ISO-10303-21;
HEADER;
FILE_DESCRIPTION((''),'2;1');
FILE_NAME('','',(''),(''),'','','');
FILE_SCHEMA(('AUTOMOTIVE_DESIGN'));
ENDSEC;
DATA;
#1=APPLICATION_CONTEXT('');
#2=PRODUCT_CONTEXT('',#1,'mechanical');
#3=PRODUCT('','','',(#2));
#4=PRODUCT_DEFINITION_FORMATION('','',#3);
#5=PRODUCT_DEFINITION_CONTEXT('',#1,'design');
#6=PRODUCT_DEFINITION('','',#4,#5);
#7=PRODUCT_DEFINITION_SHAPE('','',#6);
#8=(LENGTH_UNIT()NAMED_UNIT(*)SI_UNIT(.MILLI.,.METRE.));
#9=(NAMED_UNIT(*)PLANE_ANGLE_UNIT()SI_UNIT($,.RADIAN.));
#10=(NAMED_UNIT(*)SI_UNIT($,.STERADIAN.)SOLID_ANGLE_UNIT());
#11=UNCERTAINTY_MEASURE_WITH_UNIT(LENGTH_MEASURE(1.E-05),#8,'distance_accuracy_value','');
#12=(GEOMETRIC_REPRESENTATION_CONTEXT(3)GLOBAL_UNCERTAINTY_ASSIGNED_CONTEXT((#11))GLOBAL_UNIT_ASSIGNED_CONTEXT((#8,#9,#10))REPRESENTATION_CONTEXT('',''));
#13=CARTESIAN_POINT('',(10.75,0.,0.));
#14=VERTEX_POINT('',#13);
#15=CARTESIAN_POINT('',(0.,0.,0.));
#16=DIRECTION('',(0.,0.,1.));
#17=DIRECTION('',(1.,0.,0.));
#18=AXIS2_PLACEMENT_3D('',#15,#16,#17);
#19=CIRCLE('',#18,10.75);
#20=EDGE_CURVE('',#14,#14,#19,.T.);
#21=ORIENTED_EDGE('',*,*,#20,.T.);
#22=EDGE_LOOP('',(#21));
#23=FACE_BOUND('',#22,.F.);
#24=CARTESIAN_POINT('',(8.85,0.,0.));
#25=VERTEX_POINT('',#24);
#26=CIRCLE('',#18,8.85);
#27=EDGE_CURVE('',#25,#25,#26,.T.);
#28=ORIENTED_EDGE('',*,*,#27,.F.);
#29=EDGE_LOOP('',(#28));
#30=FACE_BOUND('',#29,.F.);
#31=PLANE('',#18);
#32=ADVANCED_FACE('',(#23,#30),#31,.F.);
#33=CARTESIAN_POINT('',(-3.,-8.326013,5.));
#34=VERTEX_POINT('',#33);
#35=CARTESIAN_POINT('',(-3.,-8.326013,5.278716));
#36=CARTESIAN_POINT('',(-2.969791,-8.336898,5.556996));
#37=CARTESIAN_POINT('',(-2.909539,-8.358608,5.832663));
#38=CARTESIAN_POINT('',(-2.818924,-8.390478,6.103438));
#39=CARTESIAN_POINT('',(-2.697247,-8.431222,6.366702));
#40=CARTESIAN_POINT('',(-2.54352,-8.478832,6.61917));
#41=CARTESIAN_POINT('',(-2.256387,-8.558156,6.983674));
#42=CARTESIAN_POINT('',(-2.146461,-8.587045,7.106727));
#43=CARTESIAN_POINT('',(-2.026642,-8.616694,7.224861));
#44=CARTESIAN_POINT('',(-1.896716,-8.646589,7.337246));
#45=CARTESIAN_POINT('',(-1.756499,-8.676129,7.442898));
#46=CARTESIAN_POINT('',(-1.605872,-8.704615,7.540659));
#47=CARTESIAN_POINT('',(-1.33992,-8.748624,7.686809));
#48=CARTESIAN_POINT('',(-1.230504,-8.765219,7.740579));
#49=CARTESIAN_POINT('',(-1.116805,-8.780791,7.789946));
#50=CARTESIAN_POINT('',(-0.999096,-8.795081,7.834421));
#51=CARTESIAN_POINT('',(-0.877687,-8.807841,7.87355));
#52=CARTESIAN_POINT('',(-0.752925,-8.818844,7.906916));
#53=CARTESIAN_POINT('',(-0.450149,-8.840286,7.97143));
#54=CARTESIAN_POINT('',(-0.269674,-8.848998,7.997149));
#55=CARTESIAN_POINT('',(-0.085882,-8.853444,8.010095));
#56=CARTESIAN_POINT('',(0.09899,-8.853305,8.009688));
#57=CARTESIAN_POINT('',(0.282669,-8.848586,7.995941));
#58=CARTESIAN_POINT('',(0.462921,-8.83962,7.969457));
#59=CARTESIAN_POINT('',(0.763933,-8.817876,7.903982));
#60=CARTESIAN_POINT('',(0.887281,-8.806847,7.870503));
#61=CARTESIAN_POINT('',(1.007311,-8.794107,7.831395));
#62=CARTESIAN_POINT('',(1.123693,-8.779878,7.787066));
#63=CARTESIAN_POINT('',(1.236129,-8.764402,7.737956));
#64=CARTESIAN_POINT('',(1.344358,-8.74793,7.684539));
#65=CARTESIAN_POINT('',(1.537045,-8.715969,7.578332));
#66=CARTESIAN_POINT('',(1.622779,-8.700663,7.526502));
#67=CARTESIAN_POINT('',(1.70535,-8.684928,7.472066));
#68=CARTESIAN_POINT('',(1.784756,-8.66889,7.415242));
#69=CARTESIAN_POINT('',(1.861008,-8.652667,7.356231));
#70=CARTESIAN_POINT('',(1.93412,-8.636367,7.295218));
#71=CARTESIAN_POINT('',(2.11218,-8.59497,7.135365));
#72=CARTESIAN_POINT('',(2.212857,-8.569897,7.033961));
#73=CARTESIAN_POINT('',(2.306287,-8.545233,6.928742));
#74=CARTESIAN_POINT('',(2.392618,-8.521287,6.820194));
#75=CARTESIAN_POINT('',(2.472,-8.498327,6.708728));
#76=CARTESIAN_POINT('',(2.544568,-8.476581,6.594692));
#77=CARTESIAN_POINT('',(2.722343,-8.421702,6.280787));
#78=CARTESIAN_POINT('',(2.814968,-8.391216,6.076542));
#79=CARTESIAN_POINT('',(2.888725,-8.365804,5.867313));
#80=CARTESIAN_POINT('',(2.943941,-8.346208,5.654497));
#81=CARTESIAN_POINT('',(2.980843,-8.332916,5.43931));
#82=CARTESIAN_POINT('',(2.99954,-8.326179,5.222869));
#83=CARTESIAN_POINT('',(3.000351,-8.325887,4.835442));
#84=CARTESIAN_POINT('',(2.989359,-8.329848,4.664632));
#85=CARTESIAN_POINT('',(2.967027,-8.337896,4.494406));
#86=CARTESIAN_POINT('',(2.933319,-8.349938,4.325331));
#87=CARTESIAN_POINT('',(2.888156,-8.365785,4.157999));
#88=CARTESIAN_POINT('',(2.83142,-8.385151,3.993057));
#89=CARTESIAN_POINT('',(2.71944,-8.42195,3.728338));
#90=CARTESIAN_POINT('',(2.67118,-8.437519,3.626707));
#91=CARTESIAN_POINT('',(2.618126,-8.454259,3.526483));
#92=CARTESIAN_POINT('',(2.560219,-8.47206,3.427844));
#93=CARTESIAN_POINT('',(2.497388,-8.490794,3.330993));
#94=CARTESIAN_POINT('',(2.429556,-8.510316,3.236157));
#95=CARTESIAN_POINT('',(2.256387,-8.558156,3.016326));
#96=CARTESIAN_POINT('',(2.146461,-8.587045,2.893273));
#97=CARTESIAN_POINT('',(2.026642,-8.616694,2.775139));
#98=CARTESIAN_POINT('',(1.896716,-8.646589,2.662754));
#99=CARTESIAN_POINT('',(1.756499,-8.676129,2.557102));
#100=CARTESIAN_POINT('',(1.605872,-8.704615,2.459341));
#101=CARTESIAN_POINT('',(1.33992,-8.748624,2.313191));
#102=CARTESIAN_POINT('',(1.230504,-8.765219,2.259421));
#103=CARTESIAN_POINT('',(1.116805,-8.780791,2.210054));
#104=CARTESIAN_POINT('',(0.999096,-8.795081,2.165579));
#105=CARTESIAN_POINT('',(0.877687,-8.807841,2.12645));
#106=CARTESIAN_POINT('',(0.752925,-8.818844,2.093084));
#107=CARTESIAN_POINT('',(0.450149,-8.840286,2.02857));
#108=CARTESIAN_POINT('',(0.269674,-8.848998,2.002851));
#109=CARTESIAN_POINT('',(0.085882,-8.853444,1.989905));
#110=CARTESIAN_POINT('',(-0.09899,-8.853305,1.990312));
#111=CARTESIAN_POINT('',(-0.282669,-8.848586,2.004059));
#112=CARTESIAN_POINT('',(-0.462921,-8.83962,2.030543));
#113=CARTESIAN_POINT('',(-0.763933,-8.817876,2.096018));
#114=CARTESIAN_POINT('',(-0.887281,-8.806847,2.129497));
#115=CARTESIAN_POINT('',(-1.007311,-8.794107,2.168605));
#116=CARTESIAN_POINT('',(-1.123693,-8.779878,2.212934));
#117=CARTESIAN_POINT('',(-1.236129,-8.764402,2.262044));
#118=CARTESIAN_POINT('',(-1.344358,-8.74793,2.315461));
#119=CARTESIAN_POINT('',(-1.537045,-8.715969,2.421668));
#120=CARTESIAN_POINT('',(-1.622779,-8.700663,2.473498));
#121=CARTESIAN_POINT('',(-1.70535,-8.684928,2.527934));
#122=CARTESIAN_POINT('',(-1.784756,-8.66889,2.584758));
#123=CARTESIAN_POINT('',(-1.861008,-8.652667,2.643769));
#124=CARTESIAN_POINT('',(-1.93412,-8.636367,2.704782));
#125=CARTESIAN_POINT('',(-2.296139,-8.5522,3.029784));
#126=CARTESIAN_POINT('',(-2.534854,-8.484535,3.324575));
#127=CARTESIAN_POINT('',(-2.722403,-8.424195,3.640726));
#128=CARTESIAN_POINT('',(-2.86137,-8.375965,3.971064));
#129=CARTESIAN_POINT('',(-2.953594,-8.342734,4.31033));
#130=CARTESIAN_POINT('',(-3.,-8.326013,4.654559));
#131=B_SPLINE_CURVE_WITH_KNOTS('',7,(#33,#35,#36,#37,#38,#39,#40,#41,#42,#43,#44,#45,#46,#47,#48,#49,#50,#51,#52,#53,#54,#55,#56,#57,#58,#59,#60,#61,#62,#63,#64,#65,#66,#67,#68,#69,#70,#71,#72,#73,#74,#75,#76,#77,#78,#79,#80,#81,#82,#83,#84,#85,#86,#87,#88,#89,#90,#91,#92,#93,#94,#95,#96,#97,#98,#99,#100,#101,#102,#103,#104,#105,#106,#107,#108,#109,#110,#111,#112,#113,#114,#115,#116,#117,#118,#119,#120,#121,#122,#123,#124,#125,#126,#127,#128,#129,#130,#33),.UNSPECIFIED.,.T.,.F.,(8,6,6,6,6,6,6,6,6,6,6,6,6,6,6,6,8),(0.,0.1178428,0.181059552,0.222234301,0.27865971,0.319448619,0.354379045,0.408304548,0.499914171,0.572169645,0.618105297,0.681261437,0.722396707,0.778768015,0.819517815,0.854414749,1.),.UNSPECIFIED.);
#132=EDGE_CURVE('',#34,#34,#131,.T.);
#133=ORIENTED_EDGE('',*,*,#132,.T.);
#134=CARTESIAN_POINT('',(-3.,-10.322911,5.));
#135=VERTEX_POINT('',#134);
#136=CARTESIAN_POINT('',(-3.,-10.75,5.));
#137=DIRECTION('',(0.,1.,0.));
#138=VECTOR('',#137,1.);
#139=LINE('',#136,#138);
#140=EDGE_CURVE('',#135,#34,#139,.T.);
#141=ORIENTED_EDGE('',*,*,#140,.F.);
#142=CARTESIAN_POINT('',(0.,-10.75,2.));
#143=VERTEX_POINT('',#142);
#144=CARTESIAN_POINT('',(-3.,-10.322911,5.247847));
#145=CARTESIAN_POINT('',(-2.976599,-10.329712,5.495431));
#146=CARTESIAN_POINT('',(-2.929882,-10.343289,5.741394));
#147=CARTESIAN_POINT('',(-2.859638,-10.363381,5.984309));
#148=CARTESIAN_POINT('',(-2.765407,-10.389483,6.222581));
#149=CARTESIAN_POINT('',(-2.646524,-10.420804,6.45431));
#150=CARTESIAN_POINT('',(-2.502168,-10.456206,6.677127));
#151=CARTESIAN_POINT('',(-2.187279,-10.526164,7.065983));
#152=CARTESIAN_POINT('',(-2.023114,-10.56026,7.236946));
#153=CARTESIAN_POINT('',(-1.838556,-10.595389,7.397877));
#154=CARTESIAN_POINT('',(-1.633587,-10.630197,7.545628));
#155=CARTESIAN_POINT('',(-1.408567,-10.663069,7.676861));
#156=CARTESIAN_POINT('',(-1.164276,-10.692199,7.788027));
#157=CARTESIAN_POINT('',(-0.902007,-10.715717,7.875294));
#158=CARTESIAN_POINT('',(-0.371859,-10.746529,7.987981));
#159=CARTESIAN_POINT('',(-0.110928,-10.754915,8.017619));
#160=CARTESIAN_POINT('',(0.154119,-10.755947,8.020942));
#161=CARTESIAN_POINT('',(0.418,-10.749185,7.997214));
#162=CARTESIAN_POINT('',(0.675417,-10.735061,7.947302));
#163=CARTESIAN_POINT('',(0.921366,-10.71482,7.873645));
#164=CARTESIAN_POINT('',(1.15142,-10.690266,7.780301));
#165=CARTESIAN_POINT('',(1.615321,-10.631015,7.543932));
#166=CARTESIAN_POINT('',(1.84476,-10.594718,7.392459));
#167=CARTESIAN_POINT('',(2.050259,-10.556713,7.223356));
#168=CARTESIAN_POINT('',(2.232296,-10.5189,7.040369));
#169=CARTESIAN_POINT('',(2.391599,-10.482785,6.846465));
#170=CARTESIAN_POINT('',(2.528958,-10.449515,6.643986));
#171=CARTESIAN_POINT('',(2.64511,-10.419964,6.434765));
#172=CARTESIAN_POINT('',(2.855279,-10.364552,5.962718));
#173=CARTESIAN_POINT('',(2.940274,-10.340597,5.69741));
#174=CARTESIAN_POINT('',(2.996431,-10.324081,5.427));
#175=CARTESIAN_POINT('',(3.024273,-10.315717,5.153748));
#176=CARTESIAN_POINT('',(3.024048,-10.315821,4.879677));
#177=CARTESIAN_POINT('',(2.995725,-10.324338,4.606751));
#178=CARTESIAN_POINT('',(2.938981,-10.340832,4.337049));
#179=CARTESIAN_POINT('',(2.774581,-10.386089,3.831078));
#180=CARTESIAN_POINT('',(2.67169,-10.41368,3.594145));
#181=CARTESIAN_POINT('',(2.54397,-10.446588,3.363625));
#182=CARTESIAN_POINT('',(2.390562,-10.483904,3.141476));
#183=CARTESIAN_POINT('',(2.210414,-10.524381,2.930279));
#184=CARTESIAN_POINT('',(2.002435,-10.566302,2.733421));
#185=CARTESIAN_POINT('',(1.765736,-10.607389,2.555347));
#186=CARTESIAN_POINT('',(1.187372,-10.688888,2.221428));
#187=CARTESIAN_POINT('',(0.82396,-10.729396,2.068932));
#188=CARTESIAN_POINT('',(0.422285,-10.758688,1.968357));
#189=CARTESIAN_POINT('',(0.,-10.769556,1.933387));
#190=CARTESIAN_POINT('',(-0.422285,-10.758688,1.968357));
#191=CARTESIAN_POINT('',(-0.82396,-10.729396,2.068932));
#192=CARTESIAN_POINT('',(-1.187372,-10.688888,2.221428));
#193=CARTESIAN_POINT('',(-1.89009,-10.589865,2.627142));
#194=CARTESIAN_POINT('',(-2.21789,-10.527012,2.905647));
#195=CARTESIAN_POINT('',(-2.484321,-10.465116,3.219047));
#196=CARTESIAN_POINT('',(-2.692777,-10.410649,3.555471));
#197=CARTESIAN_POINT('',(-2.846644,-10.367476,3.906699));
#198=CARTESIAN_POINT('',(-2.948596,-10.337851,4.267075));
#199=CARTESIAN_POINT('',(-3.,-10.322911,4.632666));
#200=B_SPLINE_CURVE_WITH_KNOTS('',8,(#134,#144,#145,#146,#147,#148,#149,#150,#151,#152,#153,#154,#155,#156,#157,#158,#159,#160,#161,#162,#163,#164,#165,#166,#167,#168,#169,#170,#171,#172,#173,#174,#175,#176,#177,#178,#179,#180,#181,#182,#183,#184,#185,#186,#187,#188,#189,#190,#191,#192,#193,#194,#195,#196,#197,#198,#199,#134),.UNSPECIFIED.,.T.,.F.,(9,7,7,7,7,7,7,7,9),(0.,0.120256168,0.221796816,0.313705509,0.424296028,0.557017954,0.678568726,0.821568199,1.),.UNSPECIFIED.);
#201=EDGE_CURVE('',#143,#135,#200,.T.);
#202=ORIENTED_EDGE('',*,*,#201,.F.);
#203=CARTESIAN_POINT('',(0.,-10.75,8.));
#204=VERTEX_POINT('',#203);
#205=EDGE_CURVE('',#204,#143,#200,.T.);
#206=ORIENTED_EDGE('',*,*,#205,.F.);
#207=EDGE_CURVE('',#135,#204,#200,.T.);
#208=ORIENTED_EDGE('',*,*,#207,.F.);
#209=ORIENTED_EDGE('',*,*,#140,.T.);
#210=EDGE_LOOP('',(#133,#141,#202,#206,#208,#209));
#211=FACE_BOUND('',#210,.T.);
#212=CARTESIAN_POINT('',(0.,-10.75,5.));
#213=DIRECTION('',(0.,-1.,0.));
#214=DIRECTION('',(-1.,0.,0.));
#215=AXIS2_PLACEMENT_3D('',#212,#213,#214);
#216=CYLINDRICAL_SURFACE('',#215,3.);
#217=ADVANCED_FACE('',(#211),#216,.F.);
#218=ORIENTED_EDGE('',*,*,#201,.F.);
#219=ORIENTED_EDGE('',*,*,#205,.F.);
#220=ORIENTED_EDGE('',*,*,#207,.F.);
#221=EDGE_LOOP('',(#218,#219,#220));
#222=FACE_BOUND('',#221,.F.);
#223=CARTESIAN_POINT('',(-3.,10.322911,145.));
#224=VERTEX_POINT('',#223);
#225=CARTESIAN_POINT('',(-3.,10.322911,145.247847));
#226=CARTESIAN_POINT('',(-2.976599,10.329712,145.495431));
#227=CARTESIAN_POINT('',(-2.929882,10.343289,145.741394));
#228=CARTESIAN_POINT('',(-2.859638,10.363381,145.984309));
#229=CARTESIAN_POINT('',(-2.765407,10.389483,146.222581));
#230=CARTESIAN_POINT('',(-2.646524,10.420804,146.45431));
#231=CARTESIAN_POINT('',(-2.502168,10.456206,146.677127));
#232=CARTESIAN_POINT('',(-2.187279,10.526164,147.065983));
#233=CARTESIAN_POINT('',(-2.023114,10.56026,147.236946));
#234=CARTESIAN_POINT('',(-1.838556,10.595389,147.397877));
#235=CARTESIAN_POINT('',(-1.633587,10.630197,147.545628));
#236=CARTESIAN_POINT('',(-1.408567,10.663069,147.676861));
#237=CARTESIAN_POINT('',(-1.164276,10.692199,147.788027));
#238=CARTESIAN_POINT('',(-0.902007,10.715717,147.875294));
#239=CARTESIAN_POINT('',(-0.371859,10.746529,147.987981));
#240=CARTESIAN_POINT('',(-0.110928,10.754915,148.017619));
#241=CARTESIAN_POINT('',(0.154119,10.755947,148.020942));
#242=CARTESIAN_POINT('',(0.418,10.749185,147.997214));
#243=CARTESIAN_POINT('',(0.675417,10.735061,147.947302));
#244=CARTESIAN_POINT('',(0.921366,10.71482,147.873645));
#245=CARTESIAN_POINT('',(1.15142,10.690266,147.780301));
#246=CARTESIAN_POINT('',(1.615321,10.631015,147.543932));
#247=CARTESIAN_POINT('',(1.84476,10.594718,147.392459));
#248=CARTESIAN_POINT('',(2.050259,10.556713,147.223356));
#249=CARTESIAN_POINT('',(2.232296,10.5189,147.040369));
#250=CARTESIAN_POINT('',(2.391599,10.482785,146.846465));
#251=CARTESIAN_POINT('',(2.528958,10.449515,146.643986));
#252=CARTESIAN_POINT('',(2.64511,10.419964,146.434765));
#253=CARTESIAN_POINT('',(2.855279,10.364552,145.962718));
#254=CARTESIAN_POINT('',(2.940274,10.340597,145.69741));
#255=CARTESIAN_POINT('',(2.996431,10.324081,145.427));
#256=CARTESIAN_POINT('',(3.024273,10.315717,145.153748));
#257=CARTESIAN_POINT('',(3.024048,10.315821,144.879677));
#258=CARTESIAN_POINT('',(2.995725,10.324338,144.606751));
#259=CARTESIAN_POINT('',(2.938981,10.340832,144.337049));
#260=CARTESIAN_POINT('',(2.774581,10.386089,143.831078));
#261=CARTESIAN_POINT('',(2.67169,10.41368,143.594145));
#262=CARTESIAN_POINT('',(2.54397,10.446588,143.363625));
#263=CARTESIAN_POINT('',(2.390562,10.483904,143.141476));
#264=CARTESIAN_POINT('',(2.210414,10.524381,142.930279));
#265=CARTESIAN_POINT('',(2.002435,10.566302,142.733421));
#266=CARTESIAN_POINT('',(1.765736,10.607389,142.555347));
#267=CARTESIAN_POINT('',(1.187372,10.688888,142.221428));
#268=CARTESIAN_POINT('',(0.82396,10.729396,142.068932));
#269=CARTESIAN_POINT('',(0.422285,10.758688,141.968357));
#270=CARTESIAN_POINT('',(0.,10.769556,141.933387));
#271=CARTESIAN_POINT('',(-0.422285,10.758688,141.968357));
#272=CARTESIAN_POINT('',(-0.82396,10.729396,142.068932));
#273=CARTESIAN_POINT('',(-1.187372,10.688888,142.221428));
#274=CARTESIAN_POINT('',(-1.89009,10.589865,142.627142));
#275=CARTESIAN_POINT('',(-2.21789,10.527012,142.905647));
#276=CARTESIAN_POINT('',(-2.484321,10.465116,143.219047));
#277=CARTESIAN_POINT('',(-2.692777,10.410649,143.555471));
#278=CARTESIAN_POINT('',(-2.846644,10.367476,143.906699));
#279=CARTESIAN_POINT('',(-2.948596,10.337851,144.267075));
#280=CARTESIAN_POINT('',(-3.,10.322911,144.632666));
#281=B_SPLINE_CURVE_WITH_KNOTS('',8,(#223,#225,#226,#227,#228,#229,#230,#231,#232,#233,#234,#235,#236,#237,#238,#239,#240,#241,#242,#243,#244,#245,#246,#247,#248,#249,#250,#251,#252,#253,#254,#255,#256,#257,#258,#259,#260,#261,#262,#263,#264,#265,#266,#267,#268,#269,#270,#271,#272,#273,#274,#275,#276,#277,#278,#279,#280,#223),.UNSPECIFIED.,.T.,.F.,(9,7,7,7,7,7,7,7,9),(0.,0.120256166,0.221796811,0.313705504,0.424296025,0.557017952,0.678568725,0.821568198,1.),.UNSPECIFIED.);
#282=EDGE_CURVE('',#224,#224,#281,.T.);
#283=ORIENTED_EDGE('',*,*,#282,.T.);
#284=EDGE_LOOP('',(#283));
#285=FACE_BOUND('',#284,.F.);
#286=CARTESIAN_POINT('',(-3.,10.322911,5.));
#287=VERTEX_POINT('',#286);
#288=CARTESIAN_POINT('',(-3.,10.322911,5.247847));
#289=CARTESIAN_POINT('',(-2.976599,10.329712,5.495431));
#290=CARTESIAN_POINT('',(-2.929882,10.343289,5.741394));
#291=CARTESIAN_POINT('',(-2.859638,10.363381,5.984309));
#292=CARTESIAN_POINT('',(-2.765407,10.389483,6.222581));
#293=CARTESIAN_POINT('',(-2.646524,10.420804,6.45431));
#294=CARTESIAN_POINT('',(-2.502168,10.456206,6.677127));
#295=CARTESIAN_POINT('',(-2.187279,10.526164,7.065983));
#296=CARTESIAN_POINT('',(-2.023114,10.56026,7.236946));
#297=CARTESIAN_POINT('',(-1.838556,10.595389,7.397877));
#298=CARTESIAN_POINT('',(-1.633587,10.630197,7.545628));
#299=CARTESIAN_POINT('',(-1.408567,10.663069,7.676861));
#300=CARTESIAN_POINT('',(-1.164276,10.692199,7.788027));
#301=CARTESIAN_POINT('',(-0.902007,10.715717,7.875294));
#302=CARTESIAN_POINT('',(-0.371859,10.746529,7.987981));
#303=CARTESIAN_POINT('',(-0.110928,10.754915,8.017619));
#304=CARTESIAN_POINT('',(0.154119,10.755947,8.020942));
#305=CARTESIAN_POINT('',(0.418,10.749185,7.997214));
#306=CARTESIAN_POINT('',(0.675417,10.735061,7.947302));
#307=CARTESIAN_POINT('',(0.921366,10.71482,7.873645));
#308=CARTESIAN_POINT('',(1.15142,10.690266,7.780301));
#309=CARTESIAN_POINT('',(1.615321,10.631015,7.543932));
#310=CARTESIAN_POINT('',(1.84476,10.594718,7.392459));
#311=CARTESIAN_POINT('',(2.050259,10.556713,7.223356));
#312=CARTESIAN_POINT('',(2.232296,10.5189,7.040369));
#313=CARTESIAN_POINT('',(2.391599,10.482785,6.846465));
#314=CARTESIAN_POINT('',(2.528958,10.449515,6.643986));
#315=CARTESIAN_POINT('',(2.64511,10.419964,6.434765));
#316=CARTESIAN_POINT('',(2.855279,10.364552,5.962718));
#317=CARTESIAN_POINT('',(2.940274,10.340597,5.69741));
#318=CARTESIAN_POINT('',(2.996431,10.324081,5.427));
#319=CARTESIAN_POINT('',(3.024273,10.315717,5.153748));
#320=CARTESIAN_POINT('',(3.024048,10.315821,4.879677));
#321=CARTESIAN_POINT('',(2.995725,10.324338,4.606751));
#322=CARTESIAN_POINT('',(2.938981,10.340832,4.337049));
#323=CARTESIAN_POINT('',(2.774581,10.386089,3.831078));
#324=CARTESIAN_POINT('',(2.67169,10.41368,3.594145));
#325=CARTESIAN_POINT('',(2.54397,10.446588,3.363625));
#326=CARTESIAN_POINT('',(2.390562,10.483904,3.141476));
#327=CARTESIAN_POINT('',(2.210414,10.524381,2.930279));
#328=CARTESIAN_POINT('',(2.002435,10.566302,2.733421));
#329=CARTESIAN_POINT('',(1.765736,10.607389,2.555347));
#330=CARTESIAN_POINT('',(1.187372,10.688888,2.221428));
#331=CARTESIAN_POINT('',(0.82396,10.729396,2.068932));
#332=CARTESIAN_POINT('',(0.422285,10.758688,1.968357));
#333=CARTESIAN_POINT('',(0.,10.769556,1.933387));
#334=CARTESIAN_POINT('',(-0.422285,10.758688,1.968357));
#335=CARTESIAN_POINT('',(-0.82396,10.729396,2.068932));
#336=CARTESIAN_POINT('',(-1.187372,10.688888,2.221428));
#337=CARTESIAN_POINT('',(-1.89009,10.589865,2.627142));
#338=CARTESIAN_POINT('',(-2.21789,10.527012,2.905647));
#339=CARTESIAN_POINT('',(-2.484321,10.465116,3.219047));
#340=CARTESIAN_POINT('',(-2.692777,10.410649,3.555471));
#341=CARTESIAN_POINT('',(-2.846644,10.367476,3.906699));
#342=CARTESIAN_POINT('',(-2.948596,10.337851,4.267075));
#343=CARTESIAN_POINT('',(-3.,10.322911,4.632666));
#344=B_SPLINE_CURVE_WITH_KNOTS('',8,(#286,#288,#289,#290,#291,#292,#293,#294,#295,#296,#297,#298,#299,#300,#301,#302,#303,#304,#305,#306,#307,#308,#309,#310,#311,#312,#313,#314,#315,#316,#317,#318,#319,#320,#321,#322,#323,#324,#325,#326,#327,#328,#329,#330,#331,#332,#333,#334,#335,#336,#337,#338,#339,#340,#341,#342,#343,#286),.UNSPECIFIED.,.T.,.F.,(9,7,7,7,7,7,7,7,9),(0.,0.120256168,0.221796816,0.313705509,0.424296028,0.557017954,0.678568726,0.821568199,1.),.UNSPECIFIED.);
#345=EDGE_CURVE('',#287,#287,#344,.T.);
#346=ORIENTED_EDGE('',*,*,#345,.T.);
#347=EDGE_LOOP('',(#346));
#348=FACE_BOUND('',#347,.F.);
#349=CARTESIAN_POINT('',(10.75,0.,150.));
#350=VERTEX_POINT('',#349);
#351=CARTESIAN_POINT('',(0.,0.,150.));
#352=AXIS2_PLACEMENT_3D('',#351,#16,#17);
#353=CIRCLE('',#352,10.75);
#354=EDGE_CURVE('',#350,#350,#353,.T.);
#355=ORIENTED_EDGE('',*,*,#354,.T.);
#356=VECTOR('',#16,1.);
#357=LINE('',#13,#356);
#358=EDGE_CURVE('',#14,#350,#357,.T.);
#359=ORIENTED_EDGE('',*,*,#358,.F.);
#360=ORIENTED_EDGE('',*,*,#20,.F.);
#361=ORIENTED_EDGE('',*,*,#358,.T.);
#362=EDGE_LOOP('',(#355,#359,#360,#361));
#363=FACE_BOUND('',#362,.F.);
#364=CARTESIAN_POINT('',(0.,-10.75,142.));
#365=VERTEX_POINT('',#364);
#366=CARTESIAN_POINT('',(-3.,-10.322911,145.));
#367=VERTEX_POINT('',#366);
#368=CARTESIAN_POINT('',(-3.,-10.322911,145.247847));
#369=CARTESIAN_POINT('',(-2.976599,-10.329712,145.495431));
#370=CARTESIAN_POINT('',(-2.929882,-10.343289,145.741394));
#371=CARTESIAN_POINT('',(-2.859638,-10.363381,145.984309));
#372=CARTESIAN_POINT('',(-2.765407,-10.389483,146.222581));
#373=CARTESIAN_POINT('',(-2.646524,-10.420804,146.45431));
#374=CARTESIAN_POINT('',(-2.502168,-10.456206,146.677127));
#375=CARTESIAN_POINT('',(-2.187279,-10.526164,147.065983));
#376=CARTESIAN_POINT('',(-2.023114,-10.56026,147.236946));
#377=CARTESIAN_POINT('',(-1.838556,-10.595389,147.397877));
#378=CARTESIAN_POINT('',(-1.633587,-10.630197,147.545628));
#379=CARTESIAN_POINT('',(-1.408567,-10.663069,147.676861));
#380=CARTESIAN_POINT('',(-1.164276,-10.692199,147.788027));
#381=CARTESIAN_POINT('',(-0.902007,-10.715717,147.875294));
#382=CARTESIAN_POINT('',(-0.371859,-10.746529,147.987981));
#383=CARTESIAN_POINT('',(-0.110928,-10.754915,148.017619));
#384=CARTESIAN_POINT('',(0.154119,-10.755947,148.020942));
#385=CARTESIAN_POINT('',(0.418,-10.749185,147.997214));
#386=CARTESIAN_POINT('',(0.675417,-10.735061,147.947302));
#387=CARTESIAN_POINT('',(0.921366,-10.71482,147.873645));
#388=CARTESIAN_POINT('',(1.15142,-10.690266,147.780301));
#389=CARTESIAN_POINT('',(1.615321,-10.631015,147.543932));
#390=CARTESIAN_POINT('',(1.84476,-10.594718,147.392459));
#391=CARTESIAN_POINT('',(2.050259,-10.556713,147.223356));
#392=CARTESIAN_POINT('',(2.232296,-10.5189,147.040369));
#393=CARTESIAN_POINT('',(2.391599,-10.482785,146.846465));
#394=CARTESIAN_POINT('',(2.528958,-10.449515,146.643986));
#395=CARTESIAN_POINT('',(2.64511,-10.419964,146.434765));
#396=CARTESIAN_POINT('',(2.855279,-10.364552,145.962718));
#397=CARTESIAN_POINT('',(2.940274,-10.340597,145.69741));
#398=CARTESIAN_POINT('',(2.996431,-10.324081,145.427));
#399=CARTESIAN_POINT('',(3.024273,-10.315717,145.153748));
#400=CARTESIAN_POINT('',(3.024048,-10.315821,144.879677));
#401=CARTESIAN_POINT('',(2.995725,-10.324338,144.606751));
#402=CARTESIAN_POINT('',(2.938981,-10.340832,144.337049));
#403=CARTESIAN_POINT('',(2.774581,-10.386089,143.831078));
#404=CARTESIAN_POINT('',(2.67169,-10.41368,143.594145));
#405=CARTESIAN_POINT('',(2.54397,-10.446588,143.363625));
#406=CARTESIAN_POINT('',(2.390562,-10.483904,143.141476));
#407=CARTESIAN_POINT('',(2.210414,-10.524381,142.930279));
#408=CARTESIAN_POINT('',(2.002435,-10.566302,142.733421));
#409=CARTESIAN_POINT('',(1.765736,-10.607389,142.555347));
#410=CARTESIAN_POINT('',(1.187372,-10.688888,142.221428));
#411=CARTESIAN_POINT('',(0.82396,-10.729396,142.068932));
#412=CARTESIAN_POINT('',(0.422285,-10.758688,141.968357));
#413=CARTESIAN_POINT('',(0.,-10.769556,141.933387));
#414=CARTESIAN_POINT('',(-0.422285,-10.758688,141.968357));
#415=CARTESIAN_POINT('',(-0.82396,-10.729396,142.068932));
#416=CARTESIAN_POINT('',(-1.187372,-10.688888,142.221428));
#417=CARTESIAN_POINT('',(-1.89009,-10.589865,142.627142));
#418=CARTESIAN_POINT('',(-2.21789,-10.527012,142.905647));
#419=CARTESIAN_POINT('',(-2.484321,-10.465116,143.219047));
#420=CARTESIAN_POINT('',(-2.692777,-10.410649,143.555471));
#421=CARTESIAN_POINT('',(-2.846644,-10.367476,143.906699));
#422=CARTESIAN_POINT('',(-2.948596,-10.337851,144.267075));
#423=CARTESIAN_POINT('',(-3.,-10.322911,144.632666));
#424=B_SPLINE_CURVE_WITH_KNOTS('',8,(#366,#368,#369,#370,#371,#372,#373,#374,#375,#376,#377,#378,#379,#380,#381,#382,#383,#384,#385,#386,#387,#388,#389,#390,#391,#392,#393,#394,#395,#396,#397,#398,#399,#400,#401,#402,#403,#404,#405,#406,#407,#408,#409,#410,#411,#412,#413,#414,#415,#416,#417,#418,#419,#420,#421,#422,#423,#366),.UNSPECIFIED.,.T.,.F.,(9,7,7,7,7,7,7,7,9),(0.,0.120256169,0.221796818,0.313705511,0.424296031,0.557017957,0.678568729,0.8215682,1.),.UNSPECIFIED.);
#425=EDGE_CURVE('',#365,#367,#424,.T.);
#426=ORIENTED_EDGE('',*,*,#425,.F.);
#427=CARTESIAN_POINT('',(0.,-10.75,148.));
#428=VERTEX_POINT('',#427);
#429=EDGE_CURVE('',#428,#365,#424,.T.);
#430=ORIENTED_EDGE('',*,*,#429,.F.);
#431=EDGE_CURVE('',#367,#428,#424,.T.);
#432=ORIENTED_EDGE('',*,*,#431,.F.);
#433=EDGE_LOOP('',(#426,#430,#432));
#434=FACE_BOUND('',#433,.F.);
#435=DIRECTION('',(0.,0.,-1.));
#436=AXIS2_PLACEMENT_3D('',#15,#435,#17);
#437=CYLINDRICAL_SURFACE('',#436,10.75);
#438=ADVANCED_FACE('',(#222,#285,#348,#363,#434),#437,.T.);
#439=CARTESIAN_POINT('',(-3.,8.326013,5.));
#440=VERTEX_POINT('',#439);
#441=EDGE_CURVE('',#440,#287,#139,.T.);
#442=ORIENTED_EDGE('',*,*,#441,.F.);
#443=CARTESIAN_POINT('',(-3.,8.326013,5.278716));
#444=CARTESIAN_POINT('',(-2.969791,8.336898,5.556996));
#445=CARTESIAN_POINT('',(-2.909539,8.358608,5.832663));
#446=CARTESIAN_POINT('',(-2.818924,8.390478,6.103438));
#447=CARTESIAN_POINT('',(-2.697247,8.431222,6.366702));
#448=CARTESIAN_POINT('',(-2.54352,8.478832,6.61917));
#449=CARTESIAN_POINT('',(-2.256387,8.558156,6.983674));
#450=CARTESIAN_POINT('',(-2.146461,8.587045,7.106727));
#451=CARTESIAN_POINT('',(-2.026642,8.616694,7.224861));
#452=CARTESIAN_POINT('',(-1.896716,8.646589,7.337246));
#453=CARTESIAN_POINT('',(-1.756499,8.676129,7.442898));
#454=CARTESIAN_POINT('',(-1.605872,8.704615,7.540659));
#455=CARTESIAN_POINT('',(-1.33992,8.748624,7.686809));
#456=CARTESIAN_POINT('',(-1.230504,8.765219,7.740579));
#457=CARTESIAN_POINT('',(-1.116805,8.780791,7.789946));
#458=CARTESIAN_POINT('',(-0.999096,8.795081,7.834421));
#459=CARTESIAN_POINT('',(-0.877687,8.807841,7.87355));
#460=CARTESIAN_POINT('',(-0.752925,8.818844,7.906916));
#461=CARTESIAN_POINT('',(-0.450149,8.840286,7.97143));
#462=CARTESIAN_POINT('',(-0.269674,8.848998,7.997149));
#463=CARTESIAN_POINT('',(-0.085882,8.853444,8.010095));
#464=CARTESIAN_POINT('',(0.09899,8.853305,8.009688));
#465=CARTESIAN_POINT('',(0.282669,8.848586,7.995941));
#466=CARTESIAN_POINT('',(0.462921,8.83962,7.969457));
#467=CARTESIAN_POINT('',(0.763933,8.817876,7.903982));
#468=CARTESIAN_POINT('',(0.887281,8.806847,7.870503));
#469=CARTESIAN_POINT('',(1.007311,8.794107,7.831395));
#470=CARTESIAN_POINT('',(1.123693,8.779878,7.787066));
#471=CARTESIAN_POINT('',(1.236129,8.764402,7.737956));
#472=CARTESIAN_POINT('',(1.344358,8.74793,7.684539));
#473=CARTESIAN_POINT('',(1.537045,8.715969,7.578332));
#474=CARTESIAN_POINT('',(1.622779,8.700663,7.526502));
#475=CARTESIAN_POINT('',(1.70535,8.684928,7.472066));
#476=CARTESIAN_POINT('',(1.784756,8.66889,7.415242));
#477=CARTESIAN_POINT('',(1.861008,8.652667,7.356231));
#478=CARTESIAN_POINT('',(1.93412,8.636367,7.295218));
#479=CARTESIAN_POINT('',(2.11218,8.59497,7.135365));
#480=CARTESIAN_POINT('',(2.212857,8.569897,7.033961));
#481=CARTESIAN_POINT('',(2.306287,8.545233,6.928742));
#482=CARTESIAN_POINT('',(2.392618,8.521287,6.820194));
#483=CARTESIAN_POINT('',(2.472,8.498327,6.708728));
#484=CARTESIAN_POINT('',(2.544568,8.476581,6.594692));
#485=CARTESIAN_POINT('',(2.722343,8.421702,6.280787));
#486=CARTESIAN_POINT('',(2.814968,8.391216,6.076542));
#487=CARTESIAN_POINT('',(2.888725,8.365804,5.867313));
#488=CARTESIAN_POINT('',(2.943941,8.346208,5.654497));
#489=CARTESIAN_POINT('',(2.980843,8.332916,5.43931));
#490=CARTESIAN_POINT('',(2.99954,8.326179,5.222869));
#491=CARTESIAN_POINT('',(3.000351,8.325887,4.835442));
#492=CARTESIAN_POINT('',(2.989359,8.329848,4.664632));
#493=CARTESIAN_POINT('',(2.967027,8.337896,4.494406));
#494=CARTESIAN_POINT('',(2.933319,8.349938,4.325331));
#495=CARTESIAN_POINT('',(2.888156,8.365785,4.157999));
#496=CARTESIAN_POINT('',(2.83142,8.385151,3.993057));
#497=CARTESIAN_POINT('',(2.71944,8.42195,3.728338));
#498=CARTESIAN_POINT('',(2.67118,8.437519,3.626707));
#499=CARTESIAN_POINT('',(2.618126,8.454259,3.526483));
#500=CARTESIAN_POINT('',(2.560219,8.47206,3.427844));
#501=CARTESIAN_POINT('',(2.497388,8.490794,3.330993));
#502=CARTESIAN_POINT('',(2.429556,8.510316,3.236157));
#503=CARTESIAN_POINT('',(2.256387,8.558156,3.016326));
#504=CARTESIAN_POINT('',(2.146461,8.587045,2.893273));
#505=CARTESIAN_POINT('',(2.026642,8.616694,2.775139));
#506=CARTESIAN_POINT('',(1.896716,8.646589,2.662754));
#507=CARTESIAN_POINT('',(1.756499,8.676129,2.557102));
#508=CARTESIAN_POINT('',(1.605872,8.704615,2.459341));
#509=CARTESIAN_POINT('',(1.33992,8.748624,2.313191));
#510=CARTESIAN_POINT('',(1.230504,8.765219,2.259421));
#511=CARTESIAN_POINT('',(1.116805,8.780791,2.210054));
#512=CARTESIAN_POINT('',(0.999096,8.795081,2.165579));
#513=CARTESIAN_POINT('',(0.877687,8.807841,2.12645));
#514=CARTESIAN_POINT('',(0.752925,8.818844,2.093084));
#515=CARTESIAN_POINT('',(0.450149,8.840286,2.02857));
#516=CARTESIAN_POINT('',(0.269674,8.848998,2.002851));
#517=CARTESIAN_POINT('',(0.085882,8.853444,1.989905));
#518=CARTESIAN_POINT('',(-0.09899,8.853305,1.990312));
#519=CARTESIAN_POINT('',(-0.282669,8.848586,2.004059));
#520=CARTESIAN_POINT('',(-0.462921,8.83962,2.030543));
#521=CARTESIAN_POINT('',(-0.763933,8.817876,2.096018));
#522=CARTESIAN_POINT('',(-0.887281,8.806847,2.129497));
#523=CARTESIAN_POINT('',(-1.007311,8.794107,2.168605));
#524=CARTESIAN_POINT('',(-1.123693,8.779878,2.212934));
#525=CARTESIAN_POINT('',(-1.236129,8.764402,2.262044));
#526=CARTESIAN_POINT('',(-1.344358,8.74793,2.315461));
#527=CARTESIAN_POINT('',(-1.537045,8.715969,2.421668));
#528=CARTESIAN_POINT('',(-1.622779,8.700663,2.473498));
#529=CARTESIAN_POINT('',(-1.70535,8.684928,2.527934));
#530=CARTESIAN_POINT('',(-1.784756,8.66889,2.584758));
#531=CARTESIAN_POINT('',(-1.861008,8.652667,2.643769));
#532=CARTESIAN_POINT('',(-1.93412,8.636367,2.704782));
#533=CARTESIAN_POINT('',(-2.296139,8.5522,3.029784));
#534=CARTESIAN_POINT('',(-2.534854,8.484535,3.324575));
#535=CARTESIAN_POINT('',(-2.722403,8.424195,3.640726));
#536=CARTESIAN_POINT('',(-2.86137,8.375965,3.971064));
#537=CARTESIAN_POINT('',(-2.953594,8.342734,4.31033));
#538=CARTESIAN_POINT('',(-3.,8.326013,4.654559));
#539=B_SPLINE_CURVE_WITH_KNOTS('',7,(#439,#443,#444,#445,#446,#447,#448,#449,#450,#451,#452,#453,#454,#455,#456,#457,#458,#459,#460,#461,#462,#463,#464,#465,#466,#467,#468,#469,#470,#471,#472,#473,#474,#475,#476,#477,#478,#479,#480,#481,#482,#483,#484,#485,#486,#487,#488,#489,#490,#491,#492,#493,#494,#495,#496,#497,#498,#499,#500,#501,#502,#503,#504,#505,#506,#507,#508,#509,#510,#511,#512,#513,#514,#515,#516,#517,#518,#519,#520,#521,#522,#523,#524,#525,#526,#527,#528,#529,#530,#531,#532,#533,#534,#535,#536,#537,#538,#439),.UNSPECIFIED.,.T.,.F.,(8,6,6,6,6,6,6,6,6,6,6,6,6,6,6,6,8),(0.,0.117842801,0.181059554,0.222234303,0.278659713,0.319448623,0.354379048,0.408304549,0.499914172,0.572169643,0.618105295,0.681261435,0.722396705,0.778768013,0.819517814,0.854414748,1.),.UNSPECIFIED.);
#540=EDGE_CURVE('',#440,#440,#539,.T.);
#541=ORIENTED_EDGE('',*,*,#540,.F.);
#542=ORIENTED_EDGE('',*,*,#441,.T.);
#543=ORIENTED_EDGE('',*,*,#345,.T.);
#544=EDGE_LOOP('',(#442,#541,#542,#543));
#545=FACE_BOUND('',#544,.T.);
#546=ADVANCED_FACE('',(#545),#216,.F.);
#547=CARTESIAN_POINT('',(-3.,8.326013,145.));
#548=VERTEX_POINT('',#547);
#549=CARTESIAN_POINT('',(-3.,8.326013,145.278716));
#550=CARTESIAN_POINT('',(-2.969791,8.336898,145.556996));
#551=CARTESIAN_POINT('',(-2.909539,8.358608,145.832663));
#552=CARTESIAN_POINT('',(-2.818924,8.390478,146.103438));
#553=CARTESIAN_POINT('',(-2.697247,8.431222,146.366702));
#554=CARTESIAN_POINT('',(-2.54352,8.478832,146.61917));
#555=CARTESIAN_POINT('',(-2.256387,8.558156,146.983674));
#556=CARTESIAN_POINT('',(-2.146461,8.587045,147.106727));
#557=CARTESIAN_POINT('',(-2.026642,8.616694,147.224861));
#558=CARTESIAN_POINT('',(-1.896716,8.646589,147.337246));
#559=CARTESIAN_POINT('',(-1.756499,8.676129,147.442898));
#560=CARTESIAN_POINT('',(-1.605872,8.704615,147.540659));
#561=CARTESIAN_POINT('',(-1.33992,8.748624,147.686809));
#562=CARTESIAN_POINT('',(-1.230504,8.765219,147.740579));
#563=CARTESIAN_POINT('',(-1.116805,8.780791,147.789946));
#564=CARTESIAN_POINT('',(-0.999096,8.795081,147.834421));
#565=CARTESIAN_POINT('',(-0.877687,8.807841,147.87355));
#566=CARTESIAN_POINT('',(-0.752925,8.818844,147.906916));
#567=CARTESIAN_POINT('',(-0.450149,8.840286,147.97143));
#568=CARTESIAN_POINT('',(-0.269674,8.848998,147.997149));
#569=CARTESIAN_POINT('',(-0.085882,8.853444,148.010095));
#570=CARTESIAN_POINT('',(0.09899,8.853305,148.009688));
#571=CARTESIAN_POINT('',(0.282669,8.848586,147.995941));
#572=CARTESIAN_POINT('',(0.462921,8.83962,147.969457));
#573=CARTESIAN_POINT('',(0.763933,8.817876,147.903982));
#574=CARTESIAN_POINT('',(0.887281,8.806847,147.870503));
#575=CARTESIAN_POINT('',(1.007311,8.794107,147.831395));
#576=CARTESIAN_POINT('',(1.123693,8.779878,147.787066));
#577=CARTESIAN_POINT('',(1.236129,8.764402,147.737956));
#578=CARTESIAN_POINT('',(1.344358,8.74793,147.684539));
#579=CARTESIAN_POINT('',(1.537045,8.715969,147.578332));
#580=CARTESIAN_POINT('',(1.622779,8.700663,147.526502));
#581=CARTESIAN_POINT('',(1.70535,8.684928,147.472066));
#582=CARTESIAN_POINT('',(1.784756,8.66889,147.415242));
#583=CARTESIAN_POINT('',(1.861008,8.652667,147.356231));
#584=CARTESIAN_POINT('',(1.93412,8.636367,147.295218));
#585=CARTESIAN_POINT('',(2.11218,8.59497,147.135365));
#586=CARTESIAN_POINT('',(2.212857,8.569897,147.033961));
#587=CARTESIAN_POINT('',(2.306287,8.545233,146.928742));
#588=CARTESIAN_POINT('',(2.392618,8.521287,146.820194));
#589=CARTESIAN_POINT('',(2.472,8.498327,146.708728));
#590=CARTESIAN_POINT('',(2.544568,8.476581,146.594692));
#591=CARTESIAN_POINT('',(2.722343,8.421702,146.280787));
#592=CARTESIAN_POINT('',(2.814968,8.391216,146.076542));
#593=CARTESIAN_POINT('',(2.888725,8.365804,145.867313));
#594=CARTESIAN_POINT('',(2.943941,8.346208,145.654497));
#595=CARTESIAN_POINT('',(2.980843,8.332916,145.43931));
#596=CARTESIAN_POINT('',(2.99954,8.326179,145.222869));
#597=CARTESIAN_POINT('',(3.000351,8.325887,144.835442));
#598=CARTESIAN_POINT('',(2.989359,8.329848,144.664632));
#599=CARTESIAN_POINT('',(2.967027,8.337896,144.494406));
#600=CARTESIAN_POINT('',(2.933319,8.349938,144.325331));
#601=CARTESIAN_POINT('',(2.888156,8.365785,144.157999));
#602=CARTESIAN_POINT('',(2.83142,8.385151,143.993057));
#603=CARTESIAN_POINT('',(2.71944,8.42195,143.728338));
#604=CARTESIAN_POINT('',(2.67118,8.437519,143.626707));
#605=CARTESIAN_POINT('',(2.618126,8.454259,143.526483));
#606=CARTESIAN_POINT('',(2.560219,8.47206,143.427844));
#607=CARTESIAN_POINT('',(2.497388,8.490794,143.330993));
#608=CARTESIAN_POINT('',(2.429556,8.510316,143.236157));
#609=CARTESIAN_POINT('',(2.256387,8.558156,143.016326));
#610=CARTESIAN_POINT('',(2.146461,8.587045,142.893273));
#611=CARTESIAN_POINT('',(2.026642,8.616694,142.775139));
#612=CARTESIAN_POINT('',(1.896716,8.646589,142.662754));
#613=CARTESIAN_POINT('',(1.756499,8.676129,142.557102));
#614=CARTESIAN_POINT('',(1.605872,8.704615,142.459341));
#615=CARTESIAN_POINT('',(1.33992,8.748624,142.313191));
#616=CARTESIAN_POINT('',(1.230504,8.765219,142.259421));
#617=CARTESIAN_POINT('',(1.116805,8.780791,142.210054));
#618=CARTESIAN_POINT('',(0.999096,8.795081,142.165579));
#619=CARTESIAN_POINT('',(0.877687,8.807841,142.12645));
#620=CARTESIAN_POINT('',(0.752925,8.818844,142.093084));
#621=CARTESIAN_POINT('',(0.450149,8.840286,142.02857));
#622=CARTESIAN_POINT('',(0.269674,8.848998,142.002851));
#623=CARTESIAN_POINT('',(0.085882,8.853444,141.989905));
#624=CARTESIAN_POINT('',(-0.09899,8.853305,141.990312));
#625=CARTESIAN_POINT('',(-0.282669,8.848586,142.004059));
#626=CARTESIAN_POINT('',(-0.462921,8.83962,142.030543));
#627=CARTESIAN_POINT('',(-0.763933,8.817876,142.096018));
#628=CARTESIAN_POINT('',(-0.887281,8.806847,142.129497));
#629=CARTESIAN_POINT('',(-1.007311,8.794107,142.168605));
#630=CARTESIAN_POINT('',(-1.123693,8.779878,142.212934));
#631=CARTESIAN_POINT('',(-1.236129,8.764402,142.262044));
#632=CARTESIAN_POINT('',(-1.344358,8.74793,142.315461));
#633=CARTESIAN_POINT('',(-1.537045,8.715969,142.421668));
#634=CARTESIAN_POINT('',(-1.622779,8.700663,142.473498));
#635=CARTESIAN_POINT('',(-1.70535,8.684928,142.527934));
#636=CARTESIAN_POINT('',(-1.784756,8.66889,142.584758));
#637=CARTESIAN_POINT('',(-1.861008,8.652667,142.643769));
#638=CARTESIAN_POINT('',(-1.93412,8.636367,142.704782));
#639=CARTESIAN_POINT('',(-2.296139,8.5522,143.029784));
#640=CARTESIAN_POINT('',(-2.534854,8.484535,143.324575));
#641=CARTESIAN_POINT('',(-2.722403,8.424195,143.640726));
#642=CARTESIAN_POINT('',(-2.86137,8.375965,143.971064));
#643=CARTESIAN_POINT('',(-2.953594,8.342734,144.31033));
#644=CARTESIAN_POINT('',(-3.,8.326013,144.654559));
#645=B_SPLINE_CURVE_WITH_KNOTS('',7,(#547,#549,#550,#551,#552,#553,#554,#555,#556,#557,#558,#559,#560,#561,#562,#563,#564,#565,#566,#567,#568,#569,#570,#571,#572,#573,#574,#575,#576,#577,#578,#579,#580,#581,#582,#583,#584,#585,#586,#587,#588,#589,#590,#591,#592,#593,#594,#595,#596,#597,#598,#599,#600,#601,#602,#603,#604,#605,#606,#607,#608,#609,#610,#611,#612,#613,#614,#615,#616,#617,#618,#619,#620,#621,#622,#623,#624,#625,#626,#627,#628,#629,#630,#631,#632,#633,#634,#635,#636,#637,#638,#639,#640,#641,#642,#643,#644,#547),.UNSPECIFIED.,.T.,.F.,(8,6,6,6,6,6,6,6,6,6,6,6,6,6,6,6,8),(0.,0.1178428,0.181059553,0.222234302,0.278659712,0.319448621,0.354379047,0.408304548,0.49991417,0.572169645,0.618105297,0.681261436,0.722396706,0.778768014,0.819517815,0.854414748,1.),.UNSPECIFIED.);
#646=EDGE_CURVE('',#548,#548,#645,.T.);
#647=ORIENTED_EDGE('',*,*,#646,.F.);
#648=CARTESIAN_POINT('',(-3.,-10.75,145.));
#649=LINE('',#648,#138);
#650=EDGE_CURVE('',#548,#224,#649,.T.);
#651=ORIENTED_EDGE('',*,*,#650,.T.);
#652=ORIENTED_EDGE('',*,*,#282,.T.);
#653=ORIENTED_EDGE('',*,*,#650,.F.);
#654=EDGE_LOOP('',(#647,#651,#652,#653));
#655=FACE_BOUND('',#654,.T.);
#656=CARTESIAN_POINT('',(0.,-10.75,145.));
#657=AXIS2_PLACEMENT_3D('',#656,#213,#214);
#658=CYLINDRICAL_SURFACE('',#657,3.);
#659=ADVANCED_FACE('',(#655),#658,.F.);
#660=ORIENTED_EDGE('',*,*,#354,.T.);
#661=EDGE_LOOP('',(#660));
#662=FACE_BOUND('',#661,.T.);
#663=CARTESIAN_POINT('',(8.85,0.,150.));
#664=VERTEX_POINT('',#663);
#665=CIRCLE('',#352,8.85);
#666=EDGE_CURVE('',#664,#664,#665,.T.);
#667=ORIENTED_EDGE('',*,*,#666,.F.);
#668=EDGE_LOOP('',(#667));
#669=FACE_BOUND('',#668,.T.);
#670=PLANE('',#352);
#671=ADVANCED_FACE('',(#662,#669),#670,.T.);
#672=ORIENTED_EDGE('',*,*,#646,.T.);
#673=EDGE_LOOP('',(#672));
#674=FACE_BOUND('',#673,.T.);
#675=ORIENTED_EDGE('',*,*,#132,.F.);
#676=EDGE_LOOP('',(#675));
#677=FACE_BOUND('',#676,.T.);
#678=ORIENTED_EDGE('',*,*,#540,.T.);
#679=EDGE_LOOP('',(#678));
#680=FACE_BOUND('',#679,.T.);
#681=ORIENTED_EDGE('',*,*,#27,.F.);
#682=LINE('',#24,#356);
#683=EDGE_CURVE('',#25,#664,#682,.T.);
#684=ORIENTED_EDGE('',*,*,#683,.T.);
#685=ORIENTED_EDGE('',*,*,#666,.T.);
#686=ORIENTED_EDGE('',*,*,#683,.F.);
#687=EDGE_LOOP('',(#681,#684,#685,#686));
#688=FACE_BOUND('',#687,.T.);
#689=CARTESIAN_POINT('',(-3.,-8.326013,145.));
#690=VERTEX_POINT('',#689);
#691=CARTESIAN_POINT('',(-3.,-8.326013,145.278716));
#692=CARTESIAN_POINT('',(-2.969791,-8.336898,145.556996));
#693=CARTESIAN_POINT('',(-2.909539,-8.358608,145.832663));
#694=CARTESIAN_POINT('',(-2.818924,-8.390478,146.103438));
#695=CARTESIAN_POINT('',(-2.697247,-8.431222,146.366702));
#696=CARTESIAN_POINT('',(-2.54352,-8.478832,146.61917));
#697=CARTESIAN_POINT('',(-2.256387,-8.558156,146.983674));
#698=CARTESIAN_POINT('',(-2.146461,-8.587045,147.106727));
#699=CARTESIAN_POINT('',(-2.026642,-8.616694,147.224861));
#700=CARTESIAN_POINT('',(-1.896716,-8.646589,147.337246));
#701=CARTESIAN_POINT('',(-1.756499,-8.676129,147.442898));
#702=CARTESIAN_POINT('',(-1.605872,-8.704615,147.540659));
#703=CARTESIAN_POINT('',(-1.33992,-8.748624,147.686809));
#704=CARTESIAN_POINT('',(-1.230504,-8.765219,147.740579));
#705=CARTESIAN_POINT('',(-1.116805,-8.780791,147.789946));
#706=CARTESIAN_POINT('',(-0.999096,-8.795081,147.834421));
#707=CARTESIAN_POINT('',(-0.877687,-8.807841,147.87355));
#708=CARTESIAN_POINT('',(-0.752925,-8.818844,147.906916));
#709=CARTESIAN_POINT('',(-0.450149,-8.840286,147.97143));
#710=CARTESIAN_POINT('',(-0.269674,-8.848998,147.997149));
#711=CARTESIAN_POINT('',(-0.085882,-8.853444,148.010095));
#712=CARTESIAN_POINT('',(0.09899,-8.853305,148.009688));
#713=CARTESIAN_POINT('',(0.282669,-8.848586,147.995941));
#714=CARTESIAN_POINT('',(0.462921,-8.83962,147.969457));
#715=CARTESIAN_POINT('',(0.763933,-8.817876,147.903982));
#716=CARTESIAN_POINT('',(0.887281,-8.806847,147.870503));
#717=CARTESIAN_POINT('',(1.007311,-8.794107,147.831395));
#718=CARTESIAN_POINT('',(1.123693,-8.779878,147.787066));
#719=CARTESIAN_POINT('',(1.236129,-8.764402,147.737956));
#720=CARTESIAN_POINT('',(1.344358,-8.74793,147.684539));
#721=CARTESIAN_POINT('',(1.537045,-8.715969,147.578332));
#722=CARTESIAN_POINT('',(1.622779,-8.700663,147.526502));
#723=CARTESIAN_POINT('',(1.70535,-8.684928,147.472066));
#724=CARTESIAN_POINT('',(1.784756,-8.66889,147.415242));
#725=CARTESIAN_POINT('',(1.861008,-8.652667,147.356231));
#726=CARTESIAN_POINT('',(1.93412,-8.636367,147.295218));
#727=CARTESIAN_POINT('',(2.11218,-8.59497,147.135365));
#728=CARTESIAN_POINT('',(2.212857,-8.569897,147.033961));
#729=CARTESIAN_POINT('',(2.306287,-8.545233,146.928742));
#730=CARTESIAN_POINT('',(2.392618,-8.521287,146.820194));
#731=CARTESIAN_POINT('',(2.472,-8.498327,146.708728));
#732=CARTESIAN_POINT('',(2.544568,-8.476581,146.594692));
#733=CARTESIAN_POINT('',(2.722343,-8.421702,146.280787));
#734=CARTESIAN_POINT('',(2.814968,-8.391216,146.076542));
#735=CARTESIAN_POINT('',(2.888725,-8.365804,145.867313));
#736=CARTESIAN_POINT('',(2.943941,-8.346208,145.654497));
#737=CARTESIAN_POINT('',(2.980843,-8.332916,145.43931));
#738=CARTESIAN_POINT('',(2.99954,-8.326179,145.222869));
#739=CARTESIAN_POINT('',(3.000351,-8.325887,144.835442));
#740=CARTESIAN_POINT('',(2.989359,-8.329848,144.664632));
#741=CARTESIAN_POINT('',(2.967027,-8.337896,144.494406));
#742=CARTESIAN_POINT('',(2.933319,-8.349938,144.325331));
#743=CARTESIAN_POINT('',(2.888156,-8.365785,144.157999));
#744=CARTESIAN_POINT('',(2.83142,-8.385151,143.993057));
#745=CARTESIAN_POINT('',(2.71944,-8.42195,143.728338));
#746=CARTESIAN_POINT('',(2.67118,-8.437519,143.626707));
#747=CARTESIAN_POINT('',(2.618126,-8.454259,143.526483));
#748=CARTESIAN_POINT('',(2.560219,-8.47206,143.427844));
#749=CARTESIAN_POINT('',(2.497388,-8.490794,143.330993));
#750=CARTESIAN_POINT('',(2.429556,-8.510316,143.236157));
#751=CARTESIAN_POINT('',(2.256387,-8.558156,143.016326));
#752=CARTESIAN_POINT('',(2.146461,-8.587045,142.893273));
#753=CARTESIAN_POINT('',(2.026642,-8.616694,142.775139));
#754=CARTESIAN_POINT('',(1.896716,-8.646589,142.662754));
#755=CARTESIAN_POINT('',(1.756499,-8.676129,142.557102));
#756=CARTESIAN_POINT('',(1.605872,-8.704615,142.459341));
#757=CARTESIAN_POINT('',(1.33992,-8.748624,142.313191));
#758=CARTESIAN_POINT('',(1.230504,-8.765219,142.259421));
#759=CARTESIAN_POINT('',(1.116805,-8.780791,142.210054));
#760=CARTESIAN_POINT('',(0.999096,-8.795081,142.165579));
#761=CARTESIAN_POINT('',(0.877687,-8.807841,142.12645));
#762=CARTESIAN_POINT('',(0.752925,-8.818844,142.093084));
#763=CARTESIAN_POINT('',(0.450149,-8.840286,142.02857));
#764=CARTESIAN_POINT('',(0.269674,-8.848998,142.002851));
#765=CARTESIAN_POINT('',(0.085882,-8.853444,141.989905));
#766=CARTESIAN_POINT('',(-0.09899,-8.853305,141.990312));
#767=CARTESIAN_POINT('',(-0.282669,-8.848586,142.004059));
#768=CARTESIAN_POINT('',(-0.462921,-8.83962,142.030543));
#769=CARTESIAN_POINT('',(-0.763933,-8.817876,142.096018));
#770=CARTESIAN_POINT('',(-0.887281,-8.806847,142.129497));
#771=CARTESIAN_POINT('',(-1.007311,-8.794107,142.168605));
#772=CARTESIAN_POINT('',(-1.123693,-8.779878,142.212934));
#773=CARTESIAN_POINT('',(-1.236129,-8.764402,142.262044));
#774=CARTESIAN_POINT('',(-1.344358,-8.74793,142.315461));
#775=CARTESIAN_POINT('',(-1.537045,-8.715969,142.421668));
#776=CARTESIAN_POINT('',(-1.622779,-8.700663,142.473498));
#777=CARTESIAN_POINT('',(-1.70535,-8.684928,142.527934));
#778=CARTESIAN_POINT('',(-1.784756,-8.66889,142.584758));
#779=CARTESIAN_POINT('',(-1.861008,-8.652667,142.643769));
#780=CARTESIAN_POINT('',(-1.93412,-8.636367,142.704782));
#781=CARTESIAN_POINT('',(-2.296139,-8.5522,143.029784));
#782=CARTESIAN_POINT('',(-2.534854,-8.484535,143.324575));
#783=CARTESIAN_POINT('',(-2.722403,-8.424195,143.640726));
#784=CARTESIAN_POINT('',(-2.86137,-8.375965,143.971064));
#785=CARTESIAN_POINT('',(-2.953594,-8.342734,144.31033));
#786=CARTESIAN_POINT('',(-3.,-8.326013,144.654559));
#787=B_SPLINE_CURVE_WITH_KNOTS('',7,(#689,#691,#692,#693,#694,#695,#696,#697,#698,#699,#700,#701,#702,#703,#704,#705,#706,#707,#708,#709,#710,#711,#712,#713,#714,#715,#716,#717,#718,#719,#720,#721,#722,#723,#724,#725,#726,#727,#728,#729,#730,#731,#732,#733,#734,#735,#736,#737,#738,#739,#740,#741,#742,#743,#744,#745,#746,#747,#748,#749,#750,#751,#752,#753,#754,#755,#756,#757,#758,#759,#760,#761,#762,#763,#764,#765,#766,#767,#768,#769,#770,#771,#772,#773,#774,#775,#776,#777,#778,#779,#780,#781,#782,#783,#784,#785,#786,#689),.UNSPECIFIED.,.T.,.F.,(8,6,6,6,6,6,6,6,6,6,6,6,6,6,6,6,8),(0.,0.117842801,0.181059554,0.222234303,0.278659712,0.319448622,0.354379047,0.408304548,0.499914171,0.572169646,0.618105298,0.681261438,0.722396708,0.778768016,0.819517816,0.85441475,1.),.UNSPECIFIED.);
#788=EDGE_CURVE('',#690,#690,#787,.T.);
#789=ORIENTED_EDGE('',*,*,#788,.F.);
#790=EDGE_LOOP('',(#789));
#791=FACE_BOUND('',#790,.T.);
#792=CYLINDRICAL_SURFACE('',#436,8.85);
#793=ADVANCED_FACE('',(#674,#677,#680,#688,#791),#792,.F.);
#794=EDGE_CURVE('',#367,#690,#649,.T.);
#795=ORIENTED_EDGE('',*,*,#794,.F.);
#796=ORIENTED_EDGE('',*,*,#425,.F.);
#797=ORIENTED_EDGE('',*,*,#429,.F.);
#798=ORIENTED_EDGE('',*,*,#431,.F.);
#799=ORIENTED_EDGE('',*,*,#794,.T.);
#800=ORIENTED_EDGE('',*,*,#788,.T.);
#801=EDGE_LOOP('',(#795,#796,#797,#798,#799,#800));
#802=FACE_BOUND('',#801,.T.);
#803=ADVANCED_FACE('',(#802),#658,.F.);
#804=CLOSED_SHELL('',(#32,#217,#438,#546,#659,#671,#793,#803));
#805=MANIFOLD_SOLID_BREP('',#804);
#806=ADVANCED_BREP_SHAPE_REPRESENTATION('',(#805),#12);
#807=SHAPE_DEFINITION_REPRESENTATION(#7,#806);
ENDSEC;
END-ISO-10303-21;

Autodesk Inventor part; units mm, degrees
ref_plane "YZ Plane" through (0, 0, 0) normal (1, 0, 0) x (0, 1, 0)
ref_plane "XY Plane" through (0, 0, 0) normal (0, 0, 1) x (1, 0, 0)
sketch "Sketch1" plane through (0, 0, 0) normal (0, 0, 1) x (1, 0, 0)
  circle A0 centre (0, 0) radius 10.75
  circle A1 centre (0, 0) radius 8.85
  dimension "d0" = 21.5
  dimension "d1" = 17.7
extrude "Extrusion1" add sketch "Sketch1" along normal blind 150
ref_plane "Work Plane1" through (0, -10.75, 0) normal (0, 1, 0) x (-1, 0, 0)
sketch "Sketch2" plane through (0, -10.75, 0) normal (0, 1, 0) x (-1, 0, 0)
  circle A0 centre (0, 5) radius 3
  line L0 (0, -39.6) -> (0, 237.6) projected
  line L1 (10.75, 0) -> (-10.75, 0) projected
  circle A1 centre (0, 145) radius 3
  line L2 (10.75, 150) -> (-10.75, 150) projected
  point P0 (0, 0)
  dimension "d4" = 6
  dimension "d5" = 5
  dimension "d8" = 6
  dimension "d9" = 5
extrude "Extrusion2" cut sketch "Sketch2" along normal through all
properties part number "Shifter Post" material "PVC-Piping"
